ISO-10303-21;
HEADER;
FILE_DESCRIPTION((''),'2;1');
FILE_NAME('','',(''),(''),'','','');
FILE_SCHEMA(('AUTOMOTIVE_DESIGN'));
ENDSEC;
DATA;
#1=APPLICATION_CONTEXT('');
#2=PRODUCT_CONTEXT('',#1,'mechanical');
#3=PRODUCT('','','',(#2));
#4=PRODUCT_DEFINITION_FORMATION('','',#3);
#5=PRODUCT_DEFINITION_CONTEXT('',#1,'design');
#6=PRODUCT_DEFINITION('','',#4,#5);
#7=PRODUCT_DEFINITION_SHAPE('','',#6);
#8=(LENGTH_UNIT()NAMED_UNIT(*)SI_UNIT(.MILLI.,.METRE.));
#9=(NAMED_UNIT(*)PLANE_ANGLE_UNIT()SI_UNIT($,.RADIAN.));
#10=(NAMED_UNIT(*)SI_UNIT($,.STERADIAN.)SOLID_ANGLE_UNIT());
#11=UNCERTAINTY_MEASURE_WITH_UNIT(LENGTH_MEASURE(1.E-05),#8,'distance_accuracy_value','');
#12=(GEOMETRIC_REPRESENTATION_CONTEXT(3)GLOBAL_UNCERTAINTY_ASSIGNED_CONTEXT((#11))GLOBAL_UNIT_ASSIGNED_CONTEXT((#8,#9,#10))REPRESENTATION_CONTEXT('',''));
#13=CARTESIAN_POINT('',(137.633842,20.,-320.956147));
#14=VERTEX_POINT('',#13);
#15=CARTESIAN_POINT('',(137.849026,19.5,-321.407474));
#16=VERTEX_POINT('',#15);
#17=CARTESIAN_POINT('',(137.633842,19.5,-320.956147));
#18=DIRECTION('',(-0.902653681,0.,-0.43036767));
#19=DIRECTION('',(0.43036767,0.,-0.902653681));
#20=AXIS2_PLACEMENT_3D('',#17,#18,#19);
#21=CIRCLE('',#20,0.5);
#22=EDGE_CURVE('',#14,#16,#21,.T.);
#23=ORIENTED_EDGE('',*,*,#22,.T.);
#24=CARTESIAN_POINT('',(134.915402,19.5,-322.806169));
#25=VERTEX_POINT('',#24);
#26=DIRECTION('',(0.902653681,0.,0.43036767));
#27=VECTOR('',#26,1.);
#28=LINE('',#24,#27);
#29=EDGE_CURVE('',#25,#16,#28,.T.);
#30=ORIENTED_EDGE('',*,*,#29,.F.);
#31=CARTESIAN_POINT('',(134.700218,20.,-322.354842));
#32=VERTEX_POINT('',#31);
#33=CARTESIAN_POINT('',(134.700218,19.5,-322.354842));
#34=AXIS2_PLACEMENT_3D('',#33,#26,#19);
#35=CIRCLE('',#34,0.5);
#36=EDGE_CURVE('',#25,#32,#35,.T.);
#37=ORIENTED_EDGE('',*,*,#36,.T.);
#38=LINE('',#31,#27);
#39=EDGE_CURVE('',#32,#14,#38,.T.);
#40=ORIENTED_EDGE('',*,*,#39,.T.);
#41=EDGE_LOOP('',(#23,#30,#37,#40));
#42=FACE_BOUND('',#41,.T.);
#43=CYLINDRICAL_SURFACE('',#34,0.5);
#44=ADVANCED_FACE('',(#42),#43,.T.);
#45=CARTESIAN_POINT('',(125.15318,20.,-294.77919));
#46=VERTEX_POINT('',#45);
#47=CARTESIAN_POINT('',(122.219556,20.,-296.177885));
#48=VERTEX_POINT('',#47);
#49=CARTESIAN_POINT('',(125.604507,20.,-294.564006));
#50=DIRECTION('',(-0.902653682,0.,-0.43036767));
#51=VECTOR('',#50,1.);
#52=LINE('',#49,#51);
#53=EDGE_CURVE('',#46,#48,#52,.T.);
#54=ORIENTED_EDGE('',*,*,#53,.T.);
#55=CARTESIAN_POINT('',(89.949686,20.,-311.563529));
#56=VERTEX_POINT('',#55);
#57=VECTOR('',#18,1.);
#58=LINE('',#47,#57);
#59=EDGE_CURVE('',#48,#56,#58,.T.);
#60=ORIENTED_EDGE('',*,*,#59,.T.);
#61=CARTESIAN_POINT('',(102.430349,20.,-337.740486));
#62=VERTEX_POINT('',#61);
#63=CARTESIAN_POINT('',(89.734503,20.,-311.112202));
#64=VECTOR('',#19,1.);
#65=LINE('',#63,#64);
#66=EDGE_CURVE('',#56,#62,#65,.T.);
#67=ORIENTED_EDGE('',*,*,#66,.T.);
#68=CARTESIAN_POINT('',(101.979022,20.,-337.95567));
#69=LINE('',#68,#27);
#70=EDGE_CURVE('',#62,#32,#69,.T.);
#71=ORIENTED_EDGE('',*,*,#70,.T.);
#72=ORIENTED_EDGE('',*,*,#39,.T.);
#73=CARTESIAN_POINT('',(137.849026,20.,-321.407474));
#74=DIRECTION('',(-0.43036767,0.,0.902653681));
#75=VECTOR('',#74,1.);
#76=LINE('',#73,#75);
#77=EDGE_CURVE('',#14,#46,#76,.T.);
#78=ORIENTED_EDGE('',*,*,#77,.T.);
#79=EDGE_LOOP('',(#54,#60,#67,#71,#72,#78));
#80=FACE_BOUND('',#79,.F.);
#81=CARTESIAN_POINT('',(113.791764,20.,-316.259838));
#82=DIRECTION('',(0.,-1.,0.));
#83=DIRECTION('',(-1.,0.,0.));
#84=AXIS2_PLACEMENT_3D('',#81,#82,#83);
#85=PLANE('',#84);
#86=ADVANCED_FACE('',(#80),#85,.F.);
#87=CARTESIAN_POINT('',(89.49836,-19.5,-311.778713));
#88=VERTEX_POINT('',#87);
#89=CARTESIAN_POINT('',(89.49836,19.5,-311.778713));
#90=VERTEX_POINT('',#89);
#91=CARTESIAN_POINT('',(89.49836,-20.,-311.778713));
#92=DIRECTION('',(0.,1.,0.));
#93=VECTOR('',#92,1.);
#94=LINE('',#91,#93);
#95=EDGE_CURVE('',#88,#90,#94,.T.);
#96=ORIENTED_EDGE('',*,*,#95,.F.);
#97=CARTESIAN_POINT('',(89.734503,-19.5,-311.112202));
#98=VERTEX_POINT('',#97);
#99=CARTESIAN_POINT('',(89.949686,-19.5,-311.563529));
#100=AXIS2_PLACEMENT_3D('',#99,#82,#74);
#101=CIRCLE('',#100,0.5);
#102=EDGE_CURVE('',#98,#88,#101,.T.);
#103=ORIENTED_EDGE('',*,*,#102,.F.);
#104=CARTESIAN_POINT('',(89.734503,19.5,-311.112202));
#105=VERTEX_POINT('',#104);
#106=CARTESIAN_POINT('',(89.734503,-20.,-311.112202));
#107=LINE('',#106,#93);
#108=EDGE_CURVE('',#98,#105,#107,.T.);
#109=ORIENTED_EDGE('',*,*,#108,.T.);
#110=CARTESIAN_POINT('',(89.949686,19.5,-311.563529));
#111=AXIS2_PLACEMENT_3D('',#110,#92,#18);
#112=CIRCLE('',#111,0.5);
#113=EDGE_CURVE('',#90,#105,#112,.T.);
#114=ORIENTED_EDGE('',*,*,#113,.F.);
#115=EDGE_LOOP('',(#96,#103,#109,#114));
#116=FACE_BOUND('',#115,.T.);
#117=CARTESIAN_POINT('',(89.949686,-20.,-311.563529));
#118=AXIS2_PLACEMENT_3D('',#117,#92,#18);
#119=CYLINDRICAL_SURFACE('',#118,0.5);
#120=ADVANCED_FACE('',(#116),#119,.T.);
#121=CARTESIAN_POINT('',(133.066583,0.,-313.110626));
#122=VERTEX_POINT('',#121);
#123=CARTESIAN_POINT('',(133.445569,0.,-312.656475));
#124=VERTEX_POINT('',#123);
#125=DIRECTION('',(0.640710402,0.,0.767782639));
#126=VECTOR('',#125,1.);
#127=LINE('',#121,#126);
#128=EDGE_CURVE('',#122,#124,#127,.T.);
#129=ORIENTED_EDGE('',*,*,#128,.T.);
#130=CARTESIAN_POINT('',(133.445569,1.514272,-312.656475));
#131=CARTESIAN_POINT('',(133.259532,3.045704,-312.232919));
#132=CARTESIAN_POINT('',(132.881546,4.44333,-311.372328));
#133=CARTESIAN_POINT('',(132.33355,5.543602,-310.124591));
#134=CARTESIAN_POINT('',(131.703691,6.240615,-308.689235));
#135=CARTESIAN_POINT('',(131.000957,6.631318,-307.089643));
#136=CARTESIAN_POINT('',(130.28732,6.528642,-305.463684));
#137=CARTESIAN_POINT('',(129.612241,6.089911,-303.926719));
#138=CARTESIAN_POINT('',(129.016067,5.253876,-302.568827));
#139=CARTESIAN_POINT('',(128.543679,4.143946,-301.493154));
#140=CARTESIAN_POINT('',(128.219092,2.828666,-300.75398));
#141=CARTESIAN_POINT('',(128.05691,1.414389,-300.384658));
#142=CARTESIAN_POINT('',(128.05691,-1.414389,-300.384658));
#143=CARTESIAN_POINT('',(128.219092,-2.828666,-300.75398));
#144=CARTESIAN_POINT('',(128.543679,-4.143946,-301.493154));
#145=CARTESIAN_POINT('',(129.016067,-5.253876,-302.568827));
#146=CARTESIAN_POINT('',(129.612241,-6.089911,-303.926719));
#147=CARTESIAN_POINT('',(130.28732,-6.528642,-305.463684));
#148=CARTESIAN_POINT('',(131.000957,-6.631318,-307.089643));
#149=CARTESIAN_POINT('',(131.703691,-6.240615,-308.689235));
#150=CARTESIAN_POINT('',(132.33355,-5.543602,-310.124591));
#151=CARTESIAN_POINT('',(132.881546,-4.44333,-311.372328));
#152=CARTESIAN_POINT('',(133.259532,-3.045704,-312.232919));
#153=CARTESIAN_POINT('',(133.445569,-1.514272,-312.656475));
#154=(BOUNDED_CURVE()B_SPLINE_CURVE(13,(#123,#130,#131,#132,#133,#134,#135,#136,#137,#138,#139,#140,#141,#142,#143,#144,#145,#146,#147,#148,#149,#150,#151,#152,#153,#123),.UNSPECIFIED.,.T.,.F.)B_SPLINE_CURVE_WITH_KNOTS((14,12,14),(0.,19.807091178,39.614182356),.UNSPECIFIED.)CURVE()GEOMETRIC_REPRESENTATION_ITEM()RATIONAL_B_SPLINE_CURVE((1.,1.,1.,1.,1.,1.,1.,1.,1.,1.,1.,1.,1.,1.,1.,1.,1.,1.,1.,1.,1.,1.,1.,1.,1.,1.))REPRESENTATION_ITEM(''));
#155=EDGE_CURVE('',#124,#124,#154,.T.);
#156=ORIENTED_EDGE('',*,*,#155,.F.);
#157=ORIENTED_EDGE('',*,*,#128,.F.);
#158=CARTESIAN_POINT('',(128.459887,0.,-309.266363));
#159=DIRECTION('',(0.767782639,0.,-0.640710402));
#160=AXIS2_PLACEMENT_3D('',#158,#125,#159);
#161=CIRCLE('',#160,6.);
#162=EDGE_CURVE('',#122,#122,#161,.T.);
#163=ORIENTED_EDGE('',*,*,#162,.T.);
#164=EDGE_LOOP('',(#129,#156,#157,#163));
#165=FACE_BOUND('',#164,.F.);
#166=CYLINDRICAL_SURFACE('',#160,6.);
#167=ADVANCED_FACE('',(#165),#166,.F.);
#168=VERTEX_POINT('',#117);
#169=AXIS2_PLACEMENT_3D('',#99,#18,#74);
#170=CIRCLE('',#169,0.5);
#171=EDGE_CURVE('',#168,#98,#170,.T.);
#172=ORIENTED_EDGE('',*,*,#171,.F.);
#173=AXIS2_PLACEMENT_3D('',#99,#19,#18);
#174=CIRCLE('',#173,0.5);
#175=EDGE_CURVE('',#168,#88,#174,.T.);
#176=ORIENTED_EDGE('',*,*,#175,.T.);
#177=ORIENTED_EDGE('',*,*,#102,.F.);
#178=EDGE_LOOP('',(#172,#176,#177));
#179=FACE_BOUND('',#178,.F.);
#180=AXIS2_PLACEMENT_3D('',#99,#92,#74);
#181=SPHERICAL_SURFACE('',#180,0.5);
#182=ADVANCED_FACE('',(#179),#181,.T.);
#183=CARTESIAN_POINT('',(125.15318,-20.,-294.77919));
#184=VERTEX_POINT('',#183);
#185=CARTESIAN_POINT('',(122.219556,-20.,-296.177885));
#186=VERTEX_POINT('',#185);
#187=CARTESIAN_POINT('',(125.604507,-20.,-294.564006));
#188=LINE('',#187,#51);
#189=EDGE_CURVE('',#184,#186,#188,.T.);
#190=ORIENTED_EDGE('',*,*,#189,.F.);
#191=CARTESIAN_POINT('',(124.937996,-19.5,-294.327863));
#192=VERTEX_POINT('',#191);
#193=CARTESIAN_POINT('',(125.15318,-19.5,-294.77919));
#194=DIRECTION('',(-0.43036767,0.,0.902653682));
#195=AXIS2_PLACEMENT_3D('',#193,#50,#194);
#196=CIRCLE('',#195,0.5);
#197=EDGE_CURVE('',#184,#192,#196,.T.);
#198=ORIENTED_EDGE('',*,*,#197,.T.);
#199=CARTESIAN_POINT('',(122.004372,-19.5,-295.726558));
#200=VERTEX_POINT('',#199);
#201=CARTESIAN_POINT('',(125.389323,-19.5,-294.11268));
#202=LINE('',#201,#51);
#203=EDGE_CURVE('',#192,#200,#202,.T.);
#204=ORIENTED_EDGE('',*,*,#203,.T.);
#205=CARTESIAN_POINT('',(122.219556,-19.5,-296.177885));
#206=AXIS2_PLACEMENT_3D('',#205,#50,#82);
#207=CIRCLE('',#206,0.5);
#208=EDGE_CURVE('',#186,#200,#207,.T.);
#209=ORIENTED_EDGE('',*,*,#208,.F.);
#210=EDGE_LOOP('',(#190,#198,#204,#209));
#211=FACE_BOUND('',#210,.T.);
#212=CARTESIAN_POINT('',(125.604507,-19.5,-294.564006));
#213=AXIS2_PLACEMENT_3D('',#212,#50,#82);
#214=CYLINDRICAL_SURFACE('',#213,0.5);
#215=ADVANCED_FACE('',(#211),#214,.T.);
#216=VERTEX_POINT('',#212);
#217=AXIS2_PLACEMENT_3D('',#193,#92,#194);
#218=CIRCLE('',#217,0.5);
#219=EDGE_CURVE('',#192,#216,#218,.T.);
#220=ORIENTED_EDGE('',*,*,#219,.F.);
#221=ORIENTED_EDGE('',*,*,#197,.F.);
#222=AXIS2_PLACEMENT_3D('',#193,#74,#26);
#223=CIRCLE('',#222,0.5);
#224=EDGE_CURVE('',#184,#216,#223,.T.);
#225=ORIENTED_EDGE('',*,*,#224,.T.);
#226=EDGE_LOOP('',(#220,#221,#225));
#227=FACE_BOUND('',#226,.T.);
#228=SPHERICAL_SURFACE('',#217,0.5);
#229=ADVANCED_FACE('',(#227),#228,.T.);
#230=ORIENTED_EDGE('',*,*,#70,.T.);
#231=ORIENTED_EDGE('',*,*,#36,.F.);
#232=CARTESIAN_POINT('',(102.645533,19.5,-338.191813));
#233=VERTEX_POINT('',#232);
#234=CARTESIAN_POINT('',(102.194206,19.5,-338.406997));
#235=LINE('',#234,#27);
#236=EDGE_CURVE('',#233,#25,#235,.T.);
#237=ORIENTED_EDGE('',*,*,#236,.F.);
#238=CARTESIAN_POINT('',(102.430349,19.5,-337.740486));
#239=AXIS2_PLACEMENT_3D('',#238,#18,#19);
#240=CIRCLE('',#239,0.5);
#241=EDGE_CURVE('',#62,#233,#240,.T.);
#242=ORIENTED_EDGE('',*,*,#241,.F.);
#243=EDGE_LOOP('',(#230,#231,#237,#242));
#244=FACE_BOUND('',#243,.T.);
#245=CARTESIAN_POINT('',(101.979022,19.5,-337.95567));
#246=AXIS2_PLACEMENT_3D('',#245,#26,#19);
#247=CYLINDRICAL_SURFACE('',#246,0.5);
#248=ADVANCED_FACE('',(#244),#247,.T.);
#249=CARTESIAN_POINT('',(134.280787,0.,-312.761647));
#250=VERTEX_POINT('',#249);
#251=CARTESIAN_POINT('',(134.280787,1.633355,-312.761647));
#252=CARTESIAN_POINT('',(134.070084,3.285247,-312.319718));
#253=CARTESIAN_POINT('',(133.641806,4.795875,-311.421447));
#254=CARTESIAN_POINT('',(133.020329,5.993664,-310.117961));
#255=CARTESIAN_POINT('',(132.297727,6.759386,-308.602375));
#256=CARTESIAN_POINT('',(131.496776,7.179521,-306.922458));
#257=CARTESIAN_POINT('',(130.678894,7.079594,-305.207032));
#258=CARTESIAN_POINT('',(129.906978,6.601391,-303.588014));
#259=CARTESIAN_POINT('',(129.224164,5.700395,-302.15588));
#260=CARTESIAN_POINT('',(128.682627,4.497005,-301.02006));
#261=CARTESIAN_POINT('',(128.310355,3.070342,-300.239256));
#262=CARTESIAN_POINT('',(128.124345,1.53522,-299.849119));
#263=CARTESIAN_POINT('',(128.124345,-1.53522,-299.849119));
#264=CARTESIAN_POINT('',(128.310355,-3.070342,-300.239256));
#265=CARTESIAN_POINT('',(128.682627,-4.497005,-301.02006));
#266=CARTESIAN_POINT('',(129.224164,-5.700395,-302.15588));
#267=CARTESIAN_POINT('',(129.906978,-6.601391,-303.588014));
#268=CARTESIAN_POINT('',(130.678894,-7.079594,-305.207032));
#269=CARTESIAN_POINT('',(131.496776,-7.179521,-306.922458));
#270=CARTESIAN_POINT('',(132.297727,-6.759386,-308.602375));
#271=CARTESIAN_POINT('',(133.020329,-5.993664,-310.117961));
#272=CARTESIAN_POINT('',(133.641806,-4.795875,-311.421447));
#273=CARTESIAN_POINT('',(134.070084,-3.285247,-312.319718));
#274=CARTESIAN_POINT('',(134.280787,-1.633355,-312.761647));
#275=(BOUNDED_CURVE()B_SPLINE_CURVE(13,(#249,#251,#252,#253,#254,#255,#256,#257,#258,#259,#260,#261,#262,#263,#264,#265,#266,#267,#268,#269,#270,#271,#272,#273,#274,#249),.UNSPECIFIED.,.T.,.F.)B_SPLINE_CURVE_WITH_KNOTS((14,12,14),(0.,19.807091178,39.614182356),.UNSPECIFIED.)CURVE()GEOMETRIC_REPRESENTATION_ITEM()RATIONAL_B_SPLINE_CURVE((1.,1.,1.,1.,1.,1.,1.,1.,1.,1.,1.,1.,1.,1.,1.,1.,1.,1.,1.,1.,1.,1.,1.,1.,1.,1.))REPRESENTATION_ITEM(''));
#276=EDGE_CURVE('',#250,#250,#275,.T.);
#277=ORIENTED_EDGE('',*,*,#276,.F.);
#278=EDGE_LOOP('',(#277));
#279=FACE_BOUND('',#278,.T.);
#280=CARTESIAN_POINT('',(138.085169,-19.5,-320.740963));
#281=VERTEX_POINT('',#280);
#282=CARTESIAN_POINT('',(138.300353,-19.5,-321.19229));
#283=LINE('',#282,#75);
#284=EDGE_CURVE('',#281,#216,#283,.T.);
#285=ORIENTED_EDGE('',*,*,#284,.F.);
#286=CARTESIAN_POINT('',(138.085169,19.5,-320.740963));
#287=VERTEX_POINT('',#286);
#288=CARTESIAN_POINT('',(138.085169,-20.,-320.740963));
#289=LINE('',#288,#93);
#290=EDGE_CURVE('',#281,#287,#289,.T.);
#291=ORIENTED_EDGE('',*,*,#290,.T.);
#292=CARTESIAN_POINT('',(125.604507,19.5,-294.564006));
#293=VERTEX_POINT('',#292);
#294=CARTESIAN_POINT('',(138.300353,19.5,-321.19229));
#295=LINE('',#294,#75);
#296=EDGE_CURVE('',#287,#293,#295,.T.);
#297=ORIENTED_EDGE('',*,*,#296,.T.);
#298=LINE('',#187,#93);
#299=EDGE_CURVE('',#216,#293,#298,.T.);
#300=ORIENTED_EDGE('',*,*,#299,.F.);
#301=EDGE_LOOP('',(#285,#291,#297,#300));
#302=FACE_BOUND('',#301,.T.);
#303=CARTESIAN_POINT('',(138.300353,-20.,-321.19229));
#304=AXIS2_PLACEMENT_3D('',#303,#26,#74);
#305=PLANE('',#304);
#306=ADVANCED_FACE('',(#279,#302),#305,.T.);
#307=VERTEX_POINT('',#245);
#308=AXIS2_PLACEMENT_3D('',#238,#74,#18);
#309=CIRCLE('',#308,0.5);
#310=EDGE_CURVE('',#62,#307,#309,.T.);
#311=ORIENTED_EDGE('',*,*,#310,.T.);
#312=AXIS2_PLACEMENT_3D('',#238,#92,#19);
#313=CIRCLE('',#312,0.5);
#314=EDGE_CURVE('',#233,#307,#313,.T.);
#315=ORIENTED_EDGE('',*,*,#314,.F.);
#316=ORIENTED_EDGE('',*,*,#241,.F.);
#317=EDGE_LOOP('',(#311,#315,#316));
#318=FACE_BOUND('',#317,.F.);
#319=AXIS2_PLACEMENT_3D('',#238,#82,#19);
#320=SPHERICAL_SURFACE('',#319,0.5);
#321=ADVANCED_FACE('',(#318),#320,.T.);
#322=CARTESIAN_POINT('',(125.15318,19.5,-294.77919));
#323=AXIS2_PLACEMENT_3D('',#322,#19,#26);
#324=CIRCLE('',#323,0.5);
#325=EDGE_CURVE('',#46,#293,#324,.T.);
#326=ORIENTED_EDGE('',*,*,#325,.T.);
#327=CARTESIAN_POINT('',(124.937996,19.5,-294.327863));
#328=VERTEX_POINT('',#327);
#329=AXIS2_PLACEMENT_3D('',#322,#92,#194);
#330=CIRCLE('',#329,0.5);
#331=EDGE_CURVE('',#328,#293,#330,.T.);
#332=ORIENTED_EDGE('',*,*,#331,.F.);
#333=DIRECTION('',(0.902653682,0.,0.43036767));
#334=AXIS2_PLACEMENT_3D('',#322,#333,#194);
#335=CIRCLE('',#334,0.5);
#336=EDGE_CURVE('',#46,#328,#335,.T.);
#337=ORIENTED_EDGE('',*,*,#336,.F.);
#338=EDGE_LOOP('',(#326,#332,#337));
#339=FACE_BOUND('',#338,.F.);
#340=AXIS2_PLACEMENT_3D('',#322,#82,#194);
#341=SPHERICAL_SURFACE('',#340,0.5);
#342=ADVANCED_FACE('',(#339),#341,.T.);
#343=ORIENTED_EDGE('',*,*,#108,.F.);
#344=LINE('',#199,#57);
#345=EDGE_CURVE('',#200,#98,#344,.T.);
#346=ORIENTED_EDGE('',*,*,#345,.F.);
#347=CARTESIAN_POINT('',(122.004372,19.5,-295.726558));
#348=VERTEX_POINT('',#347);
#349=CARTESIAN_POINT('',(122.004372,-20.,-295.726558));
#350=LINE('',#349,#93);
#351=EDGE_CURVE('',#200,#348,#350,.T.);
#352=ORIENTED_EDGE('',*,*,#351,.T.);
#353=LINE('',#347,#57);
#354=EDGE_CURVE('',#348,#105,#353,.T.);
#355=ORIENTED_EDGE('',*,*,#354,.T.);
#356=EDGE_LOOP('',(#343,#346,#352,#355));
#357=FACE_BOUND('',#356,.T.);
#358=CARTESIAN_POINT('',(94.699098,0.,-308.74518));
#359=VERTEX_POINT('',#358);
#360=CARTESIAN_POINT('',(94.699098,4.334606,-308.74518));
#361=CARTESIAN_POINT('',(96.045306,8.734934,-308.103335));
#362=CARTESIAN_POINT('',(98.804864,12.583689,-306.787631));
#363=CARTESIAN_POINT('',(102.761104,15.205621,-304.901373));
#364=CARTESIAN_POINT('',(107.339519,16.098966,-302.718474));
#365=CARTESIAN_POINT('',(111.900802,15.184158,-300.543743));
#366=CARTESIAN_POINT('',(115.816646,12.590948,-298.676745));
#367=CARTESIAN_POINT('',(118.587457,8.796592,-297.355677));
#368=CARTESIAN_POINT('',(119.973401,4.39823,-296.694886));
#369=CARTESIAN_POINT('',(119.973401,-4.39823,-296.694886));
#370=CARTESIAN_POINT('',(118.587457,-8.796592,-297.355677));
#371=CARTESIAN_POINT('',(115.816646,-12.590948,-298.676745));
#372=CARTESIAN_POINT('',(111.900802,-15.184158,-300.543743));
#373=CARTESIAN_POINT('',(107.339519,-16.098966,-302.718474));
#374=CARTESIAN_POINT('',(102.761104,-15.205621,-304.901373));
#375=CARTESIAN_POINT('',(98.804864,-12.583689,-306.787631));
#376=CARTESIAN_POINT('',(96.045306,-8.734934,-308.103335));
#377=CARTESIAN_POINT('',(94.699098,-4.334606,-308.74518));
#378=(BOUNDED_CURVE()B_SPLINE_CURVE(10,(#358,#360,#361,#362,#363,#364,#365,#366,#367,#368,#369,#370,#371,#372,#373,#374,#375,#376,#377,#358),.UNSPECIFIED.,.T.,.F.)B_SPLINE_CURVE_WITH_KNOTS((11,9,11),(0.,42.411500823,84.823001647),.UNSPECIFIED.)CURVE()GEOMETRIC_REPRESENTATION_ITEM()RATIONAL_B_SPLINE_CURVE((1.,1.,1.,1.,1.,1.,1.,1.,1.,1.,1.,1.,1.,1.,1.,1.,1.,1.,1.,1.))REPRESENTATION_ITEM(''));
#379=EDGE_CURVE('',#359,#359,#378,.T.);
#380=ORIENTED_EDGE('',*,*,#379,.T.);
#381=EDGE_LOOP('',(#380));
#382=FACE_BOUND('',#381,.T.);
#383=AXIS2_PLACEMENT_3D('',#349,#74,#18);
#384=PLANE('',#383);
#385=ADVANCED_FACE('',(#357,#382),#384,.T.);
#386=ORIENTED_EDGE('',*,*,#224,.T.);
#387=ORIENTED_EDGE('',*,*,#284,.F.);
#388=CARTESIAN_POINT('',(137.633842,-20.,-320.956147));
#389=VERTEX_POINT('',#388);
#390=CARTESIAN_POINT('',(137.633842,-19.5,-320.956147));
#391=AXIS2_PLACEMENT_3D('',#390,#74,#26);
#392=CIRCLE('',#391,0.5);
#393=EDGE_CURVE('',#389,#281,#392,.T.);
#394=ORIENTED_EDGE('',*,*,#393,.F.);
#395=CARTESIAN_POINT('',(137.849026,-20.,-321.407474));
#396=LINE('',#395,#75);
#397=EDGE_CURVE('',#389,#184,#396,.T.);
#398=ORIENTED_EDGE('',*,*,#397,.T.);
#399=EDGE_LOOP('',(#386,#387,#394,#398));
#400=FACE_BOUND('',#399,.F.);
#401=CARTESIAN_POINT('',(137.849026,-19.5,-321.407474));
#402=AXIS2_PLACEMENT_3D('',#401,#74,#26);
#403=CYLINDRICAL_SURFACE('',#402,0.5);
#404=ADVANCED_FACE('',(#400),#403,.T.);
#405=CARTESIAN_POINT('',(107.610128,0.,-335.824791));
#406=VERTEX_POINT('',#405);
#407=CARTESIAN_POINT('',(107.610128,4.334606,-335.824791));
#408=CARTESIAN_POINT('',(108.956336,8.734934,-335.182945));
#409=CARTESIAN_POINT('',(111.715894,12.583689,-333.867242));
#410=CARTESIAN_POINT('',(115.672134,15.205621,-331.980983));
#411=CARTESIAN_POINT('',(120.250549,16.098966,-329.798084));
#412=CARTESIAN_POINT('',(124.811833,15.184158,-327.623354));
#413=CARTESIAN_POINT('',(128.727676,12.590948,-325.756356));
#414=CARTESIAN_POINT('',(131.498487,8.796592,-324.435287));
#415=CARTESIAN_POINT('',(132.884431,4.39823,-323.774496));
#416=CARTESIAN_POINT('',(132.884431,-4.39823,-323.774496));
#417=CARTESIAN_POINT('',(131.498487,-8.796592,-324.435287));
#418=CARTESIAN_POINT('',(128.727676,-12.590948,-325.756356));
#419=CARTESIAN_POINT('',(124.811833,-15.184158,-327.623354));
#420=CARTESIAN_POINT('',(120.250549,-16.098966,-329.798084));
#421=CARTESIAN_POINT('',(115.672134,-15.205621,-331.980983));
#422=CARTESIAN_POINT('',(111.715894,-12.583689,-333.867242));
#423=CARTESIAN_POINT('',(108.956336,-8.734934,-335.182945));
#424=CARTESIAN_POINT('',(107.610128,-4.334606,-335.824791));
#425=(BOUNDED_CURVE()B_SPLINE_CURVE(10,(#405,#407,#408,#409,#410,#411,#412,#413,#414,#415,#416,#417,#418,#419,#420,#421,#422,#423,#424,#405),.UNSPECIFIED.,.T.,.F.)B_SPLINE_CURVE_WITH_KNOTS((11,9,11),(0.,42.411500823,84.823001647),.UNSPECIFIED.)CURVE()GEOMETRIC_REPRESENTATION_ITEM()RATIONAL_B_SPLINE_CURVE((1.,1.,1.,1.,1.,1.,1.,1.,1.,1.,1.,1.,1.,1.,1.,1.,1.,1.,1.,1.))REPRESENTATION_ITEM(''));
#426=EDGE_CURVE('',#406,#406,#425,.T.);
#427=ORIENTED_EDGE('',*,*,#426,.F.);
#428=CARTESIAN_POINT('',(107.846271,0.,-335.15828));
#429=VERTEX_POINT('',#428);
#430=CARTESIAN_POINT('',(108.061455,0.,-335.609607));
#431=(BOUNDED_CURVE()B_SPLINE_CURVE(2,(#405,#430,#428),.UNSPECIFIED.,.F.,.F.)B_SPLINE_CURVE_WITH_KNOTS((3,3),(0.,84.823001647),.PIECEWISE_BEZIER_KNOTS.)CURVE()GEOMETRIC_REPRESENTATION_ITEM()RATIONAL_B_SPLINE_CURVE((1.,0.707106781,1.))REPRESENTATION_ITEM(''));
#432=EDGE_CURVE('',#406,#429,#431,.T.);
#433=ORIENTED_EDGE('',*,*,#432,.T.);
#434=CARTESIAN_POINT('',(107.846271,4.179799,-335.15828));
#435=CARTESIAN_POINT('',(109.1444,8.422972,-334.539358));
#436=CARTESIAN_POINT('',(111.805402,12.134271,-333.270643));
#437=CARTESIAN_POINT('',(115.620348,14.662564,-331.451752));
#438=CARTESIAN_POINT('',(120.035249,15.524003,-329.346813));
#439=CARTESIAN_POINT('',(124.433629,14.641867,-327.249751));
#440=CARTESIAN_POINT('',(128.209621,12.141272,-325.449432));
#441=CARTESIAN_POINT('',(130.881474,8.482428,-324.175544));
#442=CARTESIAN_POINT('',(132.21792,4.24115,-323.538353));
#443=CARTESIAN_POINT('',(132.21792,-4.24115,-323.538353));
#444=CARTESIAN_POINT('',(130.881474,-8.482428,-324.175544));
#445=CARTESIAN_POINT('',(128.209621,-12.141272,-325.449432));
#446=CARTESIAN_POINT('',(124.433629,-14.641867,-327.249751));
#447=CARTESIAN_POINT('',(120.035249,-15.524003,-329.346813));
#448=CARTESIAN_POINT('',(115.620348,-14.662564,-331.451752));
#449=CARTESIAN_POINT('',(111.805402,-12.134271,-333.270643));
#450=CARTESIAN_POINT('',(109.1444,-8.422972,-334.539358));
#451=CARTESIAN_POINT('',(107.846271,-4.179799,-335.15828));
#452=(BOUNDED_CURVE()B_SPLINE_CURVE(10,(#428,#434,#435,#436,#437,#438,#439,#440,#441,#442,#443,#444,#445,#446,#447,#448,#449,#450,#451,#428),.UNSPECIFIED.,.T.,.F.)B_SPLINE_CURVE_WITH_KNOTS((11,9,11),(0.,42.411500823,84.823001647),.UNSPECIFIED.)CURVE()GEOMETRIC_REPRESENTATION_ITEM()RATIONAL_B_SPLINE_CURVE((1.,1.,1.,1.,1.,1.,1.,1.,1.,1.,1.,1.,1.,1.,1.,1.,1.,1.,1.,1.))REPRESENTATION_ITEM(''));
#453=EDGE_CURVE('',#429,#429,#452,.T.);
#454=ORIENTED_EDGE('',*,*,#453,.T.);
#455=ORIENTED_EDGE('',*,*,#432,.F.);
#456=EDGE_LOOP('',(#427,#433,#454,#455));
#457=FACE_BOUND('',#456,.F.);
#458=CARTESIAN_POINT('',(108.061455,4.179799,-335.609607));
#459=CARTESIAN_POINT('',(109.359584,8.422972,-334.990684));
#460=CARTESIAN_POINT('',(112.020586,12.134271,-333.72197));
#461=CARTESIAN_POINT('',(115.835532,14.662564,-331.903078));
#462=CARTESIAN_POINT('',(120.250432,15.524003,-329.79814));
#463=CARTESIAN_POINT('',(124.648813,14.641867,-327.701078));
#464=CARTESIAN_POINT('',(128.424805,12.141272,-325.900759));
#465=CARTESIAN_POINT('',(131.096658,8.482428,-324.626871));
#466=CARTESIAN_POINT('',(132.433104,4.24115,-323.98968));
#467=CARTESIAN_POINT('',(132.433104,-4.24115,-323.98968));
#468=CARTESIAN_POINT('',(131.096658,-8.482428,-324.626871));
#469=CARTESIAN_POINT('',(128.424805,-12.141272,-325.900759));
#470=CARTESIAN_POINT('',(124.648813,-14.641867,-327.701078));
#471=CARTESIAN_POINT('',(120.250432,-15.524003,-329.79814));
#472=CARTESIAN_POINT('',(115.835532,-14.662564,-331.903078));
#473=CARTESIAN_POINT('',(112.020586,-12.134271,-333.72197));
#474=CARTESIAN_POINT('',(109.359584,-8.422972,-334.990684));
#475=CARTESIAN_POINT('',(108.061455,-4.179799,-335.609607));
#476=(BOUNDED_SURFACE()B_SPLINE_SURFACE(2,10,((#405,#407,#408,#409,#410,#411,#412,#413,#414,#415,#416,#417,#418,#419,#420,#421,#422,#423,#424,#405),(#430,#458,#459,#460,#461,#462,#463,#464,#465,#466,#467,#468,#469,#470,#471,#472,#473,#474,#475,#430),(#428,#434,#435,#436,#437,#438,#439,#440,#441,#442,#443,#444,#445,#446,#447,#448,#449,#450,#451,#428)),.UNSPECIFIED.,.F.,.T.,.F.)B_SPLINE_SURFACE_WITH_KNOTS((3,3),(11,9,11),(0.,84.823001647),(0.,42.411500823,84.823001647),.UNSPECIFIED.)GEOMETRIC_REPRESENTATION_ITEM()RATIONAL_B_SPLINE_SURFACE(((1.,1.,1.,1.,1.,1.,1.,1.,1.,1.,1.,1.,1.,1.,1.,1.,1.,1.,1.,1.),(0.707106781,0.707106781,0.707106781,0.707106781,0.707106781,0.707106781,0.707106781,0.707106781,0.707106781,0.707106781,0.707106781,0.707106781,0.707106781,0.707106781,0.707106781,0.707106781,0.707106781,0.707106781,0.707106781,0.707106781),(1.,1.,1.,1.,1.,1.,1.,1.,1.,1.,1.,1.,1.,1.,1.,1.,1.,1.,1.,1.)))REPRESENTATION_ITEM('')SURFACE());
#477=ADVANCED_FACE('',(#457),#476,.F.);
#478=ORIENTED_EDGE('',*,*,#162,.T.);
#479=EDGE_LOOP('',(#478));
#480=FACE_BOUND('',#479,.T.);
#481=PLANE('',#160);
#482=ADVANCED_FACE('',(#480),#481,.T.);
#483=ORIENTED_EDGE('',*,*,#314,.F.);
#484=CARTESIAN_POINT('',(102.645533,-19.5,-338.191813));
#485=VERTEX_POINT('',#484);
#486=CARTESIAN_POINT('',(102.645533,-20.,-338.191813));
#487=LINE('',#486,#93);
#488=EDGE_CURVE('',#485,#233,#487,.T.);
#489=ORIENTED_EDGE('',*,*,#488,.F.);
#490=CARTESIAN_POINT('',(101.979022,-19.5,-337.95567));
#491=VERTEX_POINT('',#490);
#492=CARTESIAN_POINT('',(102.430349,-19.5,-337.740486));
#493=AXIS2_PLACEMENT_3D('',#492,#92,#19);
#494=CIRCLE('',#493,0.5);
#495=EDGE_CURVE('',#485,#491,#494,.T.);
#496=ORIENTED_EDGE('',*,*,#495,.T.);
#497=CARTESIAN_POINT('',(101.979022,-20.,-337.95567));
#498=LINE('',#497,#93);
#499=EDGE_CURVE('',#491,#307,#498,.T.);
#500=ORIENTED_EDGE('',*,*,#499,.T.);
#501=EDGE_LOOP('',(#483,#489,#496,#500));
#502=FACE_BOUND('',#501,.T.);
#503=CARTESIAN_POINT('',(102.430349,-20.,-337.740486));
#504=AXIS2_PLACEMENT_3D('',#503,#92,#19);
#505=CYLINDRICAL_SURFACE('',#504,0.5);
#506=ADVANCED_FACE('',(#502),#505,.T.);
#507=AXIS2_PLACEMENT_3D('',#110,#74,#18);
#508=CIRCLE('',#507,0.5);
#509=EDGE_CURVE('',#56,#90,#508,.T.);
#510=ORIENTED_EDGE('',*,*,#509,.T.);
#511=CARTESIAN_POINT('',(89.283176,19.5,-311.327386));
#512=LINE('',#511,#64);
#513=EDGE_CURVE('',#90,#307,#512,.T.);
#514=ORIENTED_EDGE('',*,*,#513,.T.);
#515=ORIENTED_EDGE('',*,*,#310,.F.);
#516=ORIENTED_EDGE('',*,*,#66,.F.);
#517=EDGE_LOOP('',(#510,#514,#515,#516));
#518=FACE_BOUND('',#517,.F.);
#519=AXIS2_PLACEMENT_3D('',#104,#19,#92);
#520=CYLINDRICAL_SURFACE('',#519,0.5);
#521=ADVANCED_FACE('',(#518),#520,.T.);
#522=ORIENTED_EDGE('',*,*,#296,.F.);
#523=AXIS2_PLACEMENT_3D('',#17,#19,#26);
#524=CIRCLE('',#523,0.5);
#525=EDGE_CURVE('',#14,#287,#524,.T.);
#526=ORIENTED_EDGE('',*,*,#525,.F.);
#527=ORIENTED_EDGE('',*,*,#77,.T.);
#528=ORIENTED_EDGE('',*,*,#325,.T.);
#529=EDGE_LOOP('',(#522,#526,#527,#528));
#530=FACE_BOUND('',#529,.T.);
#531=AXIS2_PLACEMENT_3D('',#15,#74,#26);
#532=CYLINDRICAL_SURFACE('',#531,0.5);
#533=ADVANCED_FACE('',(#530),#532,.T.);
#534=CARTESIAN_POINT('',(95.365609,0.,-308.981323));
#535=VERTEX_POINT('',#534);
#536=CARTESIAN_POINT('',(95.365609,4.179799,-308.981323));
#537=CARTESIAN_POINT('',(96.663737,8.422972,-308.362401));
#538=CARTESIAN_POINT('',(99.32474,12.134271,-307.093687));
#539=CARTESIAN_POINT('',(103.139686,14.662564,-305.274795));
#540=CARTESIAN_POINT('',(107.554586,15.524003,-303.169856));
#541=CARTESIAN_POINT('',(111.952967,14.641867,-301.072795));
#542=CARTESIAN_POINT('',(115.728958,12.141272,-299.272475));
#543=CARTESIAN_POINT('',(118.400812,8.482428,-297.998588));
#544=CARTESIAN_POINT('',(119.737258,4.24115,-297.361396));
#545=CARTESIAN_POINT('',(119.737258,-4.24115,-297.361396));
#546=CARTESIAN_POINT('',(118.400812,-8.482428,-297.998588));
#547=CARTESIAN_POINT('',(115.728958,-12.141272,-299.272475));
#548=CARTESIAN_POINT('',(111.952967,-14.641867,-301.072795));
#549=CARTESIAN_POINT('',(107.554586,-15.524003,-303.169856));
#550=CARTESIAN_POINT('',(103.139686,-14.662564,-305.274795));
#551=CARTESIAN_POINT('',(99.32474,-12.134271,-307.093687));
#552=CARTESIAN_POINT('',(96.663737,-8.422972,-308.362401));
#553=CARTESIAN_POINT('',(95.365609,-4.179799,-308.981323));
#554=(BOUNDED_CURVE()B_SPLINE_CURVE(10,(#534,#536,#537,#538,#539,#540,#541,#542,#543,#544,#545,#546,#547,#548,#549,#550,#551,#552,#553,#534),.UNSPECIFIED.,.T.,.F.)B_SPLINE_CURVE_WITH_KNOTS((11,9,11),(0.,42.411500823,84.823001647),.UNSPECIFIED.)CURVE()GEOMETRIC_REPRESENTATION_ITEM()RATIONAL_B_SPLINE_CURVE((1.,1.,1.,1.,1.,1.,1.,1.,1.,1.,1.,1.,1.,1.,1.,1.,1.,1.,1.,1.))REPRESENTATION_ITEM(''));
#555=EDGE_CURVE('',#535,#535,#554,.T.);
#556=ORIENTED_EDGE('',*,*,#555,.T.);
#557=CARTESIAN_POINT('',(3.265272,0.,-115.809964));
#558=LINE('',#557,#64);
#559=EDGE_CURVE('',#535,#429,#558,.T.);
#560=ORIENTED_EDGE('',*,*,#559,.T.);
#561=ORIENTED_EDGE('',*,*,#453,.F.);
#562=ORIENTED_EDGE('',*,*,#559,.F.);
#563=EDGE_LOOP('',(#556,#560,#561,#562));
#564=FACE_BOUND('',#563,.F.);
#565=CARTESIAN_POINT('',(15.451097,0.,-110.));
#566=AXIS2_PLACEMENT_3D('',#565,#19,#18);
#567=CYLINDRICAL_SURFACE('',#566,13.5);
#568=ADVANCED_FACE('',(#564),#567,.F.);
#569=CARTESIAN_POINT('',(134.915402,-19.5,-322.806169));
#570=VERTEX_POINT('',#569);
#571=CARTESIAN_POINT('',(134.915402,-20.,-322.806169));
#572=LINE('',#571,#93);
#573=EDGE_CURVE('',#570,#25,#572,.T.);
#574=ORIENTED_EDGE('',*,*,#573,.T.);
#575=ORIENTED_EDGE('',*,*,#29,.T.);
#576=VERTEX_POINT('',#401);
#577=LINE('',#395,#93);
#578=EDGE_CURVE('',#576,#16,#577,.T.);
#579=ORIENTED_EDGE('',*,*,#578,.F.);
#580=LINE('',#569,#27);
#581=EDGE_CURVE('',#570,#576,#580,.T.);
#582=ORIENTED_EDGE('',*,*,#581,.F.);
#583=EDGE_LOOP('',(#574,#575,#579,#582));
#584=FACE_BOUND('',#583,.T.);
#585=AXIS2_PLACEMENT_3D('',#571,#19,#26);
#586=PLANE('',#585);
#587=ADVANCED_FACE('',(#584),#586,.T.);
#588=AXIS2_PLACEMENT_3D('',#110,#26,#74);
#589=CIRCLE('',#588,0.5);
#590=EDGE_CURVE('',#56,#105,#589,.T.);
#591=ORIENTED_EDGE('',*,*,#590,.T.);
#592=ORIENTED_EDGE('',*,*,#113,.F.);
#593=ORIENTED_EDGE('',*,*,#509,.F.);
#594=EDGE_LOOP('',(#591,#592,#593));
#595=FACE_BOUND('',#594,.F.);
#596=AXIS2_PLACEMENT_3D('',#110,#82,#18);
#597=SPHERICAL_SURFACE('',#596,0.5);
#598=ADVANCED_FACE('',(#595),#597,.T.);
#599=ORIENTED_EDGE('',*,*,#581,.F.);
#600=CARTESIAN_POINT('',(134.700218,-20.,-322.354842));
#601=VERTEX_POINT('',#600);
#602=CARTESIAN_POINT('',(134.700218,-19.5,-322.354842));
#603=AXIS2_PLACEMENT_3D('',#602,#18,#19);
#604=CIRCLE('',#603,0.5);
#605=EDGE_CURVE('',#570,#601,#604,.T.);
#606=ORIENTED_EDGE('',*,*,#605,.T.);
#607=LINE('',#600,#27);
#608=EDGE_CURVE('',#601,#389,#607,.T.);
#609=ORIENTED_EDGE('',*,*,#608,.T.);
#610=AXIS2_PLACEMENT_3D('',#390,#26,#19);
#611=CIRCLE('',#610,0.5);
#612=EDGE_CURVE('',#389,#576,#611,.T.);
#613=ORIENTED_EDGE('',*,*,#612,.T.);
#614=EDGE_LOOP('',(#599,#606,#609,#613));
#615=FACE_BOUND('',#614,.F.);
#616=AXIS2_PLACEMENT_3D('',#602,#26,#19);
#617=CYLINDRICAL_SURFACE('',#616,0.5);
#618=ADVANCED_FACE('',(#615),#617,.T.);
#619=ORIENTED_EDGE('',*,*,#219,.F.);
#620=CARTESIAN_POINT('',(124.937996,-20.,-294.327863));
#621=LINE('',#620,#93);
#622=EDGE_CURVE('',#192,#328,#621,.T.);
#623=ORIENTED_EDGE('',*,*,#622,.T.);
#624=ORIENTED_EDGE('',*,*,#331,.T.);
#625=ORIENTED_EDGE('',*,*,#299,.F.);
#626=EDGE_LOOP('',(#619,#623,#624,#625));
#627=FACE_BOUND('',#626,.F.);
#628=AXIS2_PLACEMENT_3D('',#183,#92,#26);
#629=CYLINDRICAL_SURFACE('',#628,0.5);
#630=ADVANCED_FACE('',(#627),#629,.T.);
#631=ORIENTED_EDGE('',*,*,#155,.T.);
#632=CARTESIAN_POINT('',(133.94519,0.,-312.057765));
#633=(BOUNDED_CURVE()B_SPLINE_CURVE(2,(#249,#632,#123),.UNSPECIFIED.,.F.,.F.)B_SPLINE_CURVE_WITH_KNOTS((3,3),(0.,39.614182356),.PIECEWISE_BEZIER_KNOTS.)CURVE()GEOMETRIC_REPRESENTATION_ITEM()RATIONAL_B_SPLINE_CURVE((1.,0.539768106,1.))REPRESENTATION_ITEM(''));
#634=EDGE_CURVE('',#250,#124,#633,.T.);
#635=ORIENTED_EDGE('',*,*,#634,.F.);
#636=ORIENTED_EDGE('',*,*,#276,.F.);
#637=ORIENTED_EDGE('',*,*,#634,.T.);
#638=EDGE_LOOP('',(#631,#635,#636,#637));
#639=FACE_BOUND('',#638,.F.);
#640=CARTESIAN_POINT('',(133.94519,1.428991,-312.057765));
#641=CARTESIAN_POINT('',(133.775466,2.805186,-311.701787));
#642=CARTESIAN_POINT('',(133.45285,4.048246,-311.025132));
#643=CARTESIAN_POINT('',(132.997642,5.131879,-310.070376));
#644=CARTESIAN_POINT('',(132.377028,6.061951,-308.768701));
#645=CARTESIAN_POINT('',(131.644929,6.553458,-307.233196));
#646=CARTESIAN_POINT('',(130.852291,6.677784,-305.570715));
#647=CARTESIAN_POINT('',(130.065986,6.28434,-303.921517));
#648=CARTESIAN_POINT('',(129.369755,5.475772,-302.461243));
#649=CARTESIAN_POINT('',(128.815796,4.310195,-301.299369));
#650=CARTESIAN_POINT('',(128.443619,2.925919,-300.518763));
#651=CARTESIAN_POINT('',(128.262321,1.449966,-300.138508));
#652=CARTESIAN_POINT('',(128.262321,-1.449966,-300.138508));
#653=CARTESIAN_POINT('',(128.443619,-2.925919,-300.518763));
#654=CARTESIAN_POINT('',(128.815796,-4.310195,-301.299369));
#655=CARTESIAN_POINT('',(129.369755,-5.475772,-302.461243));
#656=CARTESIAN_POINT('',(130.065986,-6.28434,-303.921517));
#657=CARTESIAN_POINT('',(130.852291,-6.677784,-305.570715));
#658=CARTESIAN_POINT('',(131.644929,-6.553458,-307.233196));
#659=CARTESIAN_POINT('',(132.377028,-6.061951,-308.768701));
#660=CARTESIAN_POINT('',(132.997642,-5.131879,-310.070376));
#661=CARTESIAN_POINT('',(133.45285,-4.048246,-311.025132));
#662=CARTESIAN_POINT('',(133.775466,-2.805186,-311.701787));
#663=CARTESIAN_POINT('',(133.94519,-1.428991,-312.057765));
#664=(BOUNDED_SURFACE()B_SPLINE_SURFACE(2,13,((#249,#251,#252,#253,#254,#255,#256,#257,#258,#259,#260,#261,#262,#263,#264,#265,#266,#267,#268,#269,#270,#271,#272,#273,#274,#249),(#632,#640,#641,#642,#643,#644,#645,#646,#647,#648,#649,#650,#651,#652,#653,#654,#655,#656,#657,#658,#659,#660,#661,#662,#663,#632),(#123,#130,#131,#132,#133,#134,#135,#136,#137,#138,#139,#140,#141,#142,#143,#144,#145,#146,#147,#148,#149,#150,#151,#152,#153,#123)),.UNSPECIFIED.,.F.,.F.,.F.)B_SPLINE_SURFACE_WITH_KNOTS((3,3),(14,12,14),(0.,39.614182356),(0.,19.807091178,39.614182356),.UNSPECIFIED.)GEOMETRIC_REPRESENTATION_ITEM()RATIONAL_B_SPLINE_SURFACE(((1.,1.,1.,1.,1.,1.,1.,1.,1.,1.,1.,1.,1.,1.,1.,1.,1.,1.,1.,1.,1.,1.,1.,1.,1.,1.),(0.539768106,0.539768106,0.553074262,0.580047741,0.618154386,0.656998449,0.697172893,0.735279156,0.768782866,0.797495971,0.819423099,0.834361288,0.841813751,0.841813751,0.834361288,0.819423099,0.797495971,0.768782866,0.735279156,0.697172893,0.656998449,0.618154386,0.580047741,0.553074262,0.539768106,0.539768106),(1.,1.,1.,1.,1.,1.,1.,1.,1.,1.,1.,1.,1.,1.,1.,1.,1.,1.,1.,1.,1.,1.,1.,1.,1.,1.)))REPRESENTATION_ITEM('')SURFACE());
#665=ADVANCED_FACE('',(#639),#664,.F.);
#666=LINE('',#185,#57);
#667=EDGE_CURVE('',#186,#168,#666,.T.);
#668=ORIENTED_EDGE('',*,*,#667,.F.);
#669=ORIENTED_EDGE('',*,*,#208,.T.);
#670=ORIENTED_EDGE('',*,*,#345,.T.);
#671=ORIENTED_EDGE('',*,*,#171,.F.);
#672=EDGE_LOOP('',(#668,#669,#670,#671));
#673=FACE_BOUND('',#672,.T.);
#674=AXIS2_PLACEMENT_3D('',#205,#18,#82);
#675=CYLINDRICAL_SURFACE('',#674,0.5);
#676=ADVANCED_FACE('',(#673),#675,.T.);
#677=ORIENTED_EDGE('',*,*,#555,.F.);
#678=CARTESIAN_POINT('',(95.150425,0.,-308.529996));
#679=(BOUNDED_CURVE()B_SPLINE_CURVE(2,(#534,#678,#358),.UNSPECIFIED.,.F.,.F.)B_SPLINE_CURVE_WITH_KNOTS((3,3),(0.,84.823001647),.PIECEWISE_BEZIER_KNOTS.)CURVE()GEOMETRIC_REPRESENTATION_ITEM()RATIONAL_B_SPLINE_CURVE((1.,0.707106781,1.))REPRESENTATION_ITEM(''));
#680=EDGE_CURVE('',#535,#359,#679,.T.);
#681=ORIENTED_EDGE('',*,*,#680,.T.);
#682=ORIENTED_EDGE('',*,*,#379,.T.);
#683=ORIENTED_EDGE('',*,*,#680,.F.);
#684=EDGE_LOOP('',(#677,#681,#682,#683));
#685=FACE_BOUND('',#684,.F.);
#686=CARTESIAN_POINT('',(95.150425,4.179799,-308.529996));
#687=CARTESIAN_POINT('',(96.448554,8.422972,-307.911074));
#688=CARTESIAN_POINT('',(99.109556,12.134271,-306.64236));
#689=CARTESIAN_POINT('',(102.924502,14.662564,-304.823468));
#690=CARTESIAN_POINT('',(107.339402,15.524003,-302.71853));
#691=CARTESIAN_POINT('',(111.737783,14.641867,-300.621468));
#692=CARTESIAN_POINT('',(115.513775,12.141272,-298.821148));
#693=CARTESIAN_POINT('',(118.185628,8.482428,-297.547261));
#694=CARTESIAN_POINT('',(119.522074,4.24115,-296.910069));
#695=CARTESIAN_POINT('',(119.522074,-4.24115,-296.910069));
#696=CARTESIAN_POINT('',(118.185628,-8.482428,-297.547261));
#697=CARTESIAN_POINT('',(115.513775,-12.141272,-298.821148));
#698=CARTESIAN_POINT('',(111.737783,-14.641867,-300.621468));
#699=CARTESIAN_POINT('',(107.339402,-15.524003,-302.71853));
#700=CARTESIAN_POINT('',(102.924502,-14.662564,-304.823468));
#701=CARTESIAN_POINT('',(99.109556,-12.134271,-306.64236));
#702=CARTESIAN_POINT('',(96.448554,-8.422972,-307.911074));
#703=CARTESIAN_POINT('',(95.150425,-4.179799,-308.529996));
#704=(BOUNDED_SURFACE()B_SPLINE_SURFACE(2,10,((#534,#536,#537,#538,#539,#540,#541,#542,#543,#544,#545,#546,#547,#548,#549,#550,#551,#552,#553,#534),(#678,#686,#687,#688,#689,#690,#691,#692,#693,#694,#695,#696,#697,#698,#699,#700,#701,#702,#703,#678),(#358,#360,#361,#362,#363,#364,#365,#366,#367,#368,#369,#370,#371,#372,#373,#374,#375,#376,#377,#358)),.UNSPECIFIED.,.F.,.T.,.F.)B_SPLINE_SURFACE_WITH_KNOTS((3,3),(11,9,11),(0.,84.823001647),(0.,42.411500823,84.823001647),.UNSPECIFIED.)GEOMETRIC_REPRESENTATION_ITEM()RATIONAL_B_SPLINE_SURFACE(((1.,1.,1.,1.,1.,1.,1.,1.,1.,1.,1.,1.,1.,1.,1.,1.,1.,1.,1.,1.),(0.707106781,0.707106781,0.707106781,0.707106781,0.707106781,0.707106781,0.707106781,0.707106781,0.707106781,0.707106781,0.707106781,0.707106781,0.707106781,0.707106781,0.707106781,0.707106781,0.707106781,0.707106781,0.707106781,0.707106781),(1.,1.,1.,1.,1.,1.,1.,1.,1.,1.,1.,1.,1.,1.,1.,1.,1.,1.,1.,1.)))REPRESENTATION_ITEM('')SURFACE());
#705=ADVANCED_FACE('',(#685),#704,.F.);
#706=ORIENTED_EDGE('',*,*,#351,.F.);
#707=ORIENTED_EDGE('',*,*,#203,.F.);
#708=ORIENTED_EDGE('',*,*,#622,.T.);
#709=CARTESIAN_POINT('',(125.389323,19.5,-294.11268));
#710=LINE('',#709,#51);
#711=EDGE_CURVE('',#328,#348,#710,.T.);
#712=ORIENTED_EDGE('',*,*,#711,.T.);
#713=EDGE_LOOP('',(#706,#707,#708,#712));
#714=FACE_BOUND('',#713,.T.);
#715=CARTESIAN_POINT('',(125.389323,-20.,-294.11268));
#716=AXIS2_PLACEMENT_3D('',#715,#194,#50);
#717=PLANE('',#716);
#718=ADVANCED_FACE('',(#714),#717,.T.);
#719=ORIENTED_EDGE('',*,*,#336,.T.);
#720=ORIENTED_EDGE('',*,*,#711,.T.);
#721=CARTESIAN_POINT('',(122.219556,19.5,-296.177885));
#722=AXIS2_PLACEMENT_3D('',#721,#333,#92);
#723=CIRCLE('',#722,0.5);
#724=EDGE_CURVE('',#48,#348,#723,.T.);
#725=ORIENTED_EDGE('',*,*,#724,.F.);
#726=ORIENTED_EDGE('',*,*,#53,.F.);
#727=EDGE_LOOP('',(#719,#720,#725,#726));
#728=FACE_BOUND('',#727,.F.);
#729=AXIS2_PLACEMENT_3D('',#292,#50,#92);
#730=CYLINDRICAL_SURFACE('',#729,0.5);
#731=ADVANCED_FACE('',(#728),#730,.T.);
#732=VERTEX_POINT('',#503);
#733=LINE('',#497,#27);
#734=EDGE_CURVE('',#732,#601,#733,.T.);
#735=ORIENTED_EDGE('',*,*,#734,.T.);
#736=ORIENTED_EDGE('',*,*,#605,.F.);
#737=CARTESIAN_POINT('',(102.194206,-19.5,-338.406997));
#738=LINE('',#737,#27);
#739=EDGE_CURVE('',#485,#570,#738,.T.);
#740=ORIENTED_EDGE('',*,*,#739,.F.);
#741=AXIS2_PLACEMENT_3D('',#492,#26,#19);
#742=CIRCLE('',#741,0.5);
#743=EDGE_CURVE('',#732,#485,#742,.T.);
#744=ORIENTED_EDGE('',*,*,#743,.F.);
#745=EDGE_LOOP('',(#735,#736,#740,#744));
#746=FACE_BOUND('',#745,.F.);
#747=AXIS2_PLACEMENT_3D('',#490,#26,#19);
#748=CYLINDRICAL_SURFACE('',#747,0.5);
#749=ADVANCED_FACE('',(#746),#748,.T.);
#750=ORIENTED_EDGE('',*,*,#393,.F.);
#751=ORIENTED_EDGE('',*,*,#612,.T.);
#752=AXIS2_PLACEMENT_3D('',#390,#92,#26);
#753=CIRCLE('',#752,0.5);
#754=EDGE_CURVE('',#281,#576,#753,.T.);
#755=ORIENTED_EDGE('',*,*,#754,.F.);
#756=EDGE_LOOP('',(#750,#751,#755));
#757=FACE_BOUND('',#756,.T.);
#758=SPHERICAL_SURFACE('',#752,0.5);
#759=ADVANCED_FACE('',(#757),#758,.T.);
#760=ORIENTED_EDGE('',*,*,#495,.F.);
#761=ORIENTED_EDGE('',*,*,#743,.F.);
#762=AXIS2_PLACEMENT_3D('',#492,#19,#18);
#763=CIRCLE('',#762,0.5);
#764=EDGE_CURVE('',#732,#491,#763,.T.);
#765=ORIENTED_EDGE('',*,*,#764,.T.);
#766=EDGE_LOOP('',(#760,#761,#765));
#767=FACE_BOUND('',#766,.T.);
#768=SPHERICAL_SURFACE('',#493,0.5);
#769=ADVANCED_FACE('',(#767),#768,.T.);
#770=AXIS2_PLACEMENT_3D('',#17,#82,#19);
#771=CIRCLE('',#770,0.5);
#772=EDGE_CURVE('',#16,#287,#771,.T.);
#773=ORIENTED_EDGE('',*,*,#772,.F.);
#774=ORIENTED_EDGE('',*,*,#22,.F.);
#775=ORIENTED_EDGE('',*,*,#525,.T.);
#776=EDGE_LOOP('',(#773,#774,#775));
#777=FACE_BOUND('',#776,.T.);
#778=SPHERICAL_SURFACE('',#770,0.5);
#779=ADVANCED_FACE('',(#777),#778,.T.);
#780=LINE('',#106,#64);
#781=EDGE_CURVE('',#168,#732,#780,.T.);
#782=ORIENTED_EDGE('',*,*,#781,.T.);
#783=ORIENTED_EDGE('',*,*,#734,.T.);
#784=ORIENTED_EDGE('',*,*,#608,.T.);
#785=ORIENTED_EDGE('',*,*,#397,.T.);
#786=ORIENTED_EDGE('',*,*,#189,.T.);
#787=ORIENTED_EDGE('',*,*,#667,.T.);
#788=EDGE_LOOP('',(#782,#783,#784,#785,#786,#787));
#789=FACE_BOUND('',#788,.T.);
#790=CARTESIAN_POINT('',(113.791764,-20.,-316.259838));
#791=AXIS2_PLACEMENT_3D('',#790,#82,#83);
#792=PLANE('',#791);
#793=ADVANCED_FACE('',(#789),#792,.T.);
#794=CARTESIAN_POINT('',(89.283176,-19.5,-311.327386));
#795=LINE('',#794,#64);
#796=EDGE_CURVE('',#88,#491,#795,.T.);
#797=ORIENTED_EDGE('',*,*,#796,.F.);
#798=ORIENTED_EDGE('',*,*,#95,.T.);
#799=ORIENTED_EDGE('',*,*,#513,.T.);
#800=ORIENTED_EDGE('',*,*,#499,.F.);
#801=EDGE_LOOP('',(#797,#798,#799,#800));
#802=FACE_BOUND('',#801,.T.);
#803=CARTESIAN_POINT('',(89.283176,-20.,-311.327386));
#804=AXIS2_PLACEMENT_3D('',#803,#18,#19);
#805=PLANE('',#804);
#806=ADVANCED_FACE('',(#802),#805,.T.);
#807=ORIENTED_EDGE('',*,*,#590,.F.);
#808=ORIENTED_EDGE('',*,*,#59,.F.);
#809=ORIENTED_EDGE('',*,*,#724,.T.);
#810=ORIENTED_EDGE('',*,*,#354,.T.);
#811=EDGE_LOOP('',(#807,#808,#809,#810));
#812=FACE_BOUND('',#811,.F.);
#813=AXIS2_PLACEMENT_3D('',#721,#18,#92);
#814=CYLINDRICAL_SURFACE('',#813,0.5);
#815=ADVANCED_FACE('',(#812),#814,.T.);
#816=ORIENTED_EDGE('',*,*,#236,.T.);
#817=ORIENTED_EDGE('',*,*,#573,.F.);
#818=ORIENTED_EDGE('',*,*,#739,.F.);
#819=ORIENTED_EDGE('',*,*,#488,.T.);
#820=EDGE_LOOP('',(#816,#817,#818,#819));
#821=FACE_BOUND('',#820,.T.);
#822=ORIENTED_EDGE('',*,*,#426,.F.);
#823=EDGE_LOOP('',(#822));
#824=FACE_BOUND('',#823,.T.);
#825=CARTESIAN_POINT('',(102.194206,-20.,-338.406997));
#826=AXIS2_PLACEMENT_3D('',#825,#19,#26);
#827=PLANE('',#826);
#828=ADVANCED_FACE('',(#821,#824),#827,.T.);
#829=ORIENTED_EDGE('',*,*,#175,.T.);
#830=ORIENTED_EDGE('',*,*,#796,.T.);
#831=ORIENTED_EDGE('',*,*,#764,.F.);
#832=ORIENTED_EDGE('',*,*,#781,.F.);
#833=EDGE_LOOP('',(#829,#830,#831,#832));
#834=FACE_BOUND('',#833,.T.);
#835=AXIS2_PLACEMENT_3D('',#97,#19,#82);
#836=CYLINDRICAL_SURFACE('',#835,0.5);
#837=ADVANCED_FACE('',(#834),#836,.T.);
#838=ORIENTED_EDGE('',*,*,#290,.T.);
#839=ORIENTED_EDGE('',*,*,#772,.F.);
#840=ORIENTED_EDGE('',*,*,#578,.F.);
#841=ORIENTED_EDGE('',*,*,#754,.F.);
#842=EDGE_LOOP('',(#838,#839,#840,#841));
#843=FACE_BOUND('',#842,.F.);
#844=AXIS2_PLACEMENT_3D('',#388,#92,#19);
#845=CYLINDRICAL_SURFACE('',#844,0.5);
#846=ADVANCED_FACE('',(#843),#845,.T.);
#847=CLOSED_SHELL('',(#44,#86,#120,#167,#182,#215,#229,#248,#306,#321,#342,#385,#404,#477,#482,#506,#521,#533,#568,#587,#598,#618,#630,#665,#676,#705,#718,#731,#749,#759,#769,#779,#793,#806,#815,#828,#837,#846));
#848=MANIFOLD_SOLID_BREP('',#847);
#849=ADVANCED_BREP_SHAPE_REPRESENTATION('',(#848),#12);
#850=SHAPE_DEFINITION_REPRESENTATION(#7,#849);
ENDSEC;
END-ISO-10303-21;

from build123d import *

# Parameters (mm, degrees)
BOSS_EXTRUDE1_DEPTH      = 20
BOSS_EXTRUDE1_DEPTH_BACK = 20
CUT_SWEEP1_PROFILE_R     = 13.5
CUT_SWEEP2_PROFILE_R     = 6
FILLET1_R                = 0.5


with BuildPart() as part:
    # Sketch19 → Boss-Extrude1 (new, two sides: drawn at the far end of the back side and taken through both)
    with BuildSketch(Plane(origin=(0, 0, 0), x_dir=(1, 0, 0), z_dir=(0, 1, 0)).offset(-BOSS_EXTRUDE1_DEPTH_BACK)):
        Polygon((134.915401848, 322.806168715), (138.300353153, 321.192289952), (125.389323054, 294.112679509), (122.004371748, 295.726558271), (89.283175796, 311.327386308), (102.194205895, 338.406996751), align=None)
    extrude(amount=BOSS_EXTRUDE1_DEPTH + BOSS_EXTRUDE1_DEPTH_BACK)

    # Cut-Sweep1: sweep along a path in Sketch5
    with BuildLine(Plane(origin=(0, 0, 0), x_dir=(1, 0, 0), z_dir=(0, 1, 0))) as cut_sweep1_path:
        Line((15.451096543, 110), (223.369661717, 546.088654867))
    # Cut-Sweep1 profile (on start of the path) → Cut-Sweep1 (sweep, cut)
    with BuildSketch(Plane(origin=(15.451096543, 0, -110), x_dir=(-0.9026536814530927, 0, -0.43036766997438236), z_dir=(0.43036766997438236, 0, -0.9026536814530927))):
        Circle(CUT_SWEEP1_PROFILE_R)
    sweep(path=cut_sweep1_path.line, mode=Mode.SUBTRACT)

    # Cut-Sweep2: sweep along a path in Sketch33
    with BuildLine(Plane(origin=(0, 0, 0), x_dir=(1, 0, 0), z_dir=(0, 1, 0))) as cut_sweep2_path:
        Line((128.459886798, 309.266363493), (271.805005174, 137.491575647))
    # Cut-Sweep2 profile (on start of the path) → Cut-Sweep2 (sweep, cut)
    with BuildSketch(Plane(origin=(128.459886798, 0, -309.266363493), x_dir=(0.767782639292157, 0, -0.6407104016648784), z_dir=(0.6407104016648784, 0, 0.767782639292157))):
        Circle(CUT_SWEEP2_PROFILE_R)
    sweep(path=cut_sweep2_path.line, mode=Mode.SUBTRACT)

    # Fillet1
    fillet1_edges = [part.edges().sort_by_distance(p)[0] for p in [
        (138.300353153, 0, -321.192289952),
        (125.389323054, 0, -294.112679509),
        (89.283175796, 0, -311.327386308),
        (102.194205895, 0, -338.406996751),
        (107.336249425, -20, -302.720032908),
        (120.247279524, 20, -329.799643352),
        (95.738690845, 20, -324.867191529),
        (107.336249425, 20, -302.720032908),
        (131.844838103, 20, -307.65248473),
        (131.844838103, -20, -307.65248473),
        (132.433104224, 0, -323.989679807),
        (119.522074124, 0, -296.910069363),
        (128.262320501, -7.134e-05, -300.138507895),
        (120.247279524, -20, -329.799643352),
        (95.738690845, -20, -324.867191529),
    ]]
    fillet(fillet1_edges, radius=FILLET1_R)


solid = part.part
